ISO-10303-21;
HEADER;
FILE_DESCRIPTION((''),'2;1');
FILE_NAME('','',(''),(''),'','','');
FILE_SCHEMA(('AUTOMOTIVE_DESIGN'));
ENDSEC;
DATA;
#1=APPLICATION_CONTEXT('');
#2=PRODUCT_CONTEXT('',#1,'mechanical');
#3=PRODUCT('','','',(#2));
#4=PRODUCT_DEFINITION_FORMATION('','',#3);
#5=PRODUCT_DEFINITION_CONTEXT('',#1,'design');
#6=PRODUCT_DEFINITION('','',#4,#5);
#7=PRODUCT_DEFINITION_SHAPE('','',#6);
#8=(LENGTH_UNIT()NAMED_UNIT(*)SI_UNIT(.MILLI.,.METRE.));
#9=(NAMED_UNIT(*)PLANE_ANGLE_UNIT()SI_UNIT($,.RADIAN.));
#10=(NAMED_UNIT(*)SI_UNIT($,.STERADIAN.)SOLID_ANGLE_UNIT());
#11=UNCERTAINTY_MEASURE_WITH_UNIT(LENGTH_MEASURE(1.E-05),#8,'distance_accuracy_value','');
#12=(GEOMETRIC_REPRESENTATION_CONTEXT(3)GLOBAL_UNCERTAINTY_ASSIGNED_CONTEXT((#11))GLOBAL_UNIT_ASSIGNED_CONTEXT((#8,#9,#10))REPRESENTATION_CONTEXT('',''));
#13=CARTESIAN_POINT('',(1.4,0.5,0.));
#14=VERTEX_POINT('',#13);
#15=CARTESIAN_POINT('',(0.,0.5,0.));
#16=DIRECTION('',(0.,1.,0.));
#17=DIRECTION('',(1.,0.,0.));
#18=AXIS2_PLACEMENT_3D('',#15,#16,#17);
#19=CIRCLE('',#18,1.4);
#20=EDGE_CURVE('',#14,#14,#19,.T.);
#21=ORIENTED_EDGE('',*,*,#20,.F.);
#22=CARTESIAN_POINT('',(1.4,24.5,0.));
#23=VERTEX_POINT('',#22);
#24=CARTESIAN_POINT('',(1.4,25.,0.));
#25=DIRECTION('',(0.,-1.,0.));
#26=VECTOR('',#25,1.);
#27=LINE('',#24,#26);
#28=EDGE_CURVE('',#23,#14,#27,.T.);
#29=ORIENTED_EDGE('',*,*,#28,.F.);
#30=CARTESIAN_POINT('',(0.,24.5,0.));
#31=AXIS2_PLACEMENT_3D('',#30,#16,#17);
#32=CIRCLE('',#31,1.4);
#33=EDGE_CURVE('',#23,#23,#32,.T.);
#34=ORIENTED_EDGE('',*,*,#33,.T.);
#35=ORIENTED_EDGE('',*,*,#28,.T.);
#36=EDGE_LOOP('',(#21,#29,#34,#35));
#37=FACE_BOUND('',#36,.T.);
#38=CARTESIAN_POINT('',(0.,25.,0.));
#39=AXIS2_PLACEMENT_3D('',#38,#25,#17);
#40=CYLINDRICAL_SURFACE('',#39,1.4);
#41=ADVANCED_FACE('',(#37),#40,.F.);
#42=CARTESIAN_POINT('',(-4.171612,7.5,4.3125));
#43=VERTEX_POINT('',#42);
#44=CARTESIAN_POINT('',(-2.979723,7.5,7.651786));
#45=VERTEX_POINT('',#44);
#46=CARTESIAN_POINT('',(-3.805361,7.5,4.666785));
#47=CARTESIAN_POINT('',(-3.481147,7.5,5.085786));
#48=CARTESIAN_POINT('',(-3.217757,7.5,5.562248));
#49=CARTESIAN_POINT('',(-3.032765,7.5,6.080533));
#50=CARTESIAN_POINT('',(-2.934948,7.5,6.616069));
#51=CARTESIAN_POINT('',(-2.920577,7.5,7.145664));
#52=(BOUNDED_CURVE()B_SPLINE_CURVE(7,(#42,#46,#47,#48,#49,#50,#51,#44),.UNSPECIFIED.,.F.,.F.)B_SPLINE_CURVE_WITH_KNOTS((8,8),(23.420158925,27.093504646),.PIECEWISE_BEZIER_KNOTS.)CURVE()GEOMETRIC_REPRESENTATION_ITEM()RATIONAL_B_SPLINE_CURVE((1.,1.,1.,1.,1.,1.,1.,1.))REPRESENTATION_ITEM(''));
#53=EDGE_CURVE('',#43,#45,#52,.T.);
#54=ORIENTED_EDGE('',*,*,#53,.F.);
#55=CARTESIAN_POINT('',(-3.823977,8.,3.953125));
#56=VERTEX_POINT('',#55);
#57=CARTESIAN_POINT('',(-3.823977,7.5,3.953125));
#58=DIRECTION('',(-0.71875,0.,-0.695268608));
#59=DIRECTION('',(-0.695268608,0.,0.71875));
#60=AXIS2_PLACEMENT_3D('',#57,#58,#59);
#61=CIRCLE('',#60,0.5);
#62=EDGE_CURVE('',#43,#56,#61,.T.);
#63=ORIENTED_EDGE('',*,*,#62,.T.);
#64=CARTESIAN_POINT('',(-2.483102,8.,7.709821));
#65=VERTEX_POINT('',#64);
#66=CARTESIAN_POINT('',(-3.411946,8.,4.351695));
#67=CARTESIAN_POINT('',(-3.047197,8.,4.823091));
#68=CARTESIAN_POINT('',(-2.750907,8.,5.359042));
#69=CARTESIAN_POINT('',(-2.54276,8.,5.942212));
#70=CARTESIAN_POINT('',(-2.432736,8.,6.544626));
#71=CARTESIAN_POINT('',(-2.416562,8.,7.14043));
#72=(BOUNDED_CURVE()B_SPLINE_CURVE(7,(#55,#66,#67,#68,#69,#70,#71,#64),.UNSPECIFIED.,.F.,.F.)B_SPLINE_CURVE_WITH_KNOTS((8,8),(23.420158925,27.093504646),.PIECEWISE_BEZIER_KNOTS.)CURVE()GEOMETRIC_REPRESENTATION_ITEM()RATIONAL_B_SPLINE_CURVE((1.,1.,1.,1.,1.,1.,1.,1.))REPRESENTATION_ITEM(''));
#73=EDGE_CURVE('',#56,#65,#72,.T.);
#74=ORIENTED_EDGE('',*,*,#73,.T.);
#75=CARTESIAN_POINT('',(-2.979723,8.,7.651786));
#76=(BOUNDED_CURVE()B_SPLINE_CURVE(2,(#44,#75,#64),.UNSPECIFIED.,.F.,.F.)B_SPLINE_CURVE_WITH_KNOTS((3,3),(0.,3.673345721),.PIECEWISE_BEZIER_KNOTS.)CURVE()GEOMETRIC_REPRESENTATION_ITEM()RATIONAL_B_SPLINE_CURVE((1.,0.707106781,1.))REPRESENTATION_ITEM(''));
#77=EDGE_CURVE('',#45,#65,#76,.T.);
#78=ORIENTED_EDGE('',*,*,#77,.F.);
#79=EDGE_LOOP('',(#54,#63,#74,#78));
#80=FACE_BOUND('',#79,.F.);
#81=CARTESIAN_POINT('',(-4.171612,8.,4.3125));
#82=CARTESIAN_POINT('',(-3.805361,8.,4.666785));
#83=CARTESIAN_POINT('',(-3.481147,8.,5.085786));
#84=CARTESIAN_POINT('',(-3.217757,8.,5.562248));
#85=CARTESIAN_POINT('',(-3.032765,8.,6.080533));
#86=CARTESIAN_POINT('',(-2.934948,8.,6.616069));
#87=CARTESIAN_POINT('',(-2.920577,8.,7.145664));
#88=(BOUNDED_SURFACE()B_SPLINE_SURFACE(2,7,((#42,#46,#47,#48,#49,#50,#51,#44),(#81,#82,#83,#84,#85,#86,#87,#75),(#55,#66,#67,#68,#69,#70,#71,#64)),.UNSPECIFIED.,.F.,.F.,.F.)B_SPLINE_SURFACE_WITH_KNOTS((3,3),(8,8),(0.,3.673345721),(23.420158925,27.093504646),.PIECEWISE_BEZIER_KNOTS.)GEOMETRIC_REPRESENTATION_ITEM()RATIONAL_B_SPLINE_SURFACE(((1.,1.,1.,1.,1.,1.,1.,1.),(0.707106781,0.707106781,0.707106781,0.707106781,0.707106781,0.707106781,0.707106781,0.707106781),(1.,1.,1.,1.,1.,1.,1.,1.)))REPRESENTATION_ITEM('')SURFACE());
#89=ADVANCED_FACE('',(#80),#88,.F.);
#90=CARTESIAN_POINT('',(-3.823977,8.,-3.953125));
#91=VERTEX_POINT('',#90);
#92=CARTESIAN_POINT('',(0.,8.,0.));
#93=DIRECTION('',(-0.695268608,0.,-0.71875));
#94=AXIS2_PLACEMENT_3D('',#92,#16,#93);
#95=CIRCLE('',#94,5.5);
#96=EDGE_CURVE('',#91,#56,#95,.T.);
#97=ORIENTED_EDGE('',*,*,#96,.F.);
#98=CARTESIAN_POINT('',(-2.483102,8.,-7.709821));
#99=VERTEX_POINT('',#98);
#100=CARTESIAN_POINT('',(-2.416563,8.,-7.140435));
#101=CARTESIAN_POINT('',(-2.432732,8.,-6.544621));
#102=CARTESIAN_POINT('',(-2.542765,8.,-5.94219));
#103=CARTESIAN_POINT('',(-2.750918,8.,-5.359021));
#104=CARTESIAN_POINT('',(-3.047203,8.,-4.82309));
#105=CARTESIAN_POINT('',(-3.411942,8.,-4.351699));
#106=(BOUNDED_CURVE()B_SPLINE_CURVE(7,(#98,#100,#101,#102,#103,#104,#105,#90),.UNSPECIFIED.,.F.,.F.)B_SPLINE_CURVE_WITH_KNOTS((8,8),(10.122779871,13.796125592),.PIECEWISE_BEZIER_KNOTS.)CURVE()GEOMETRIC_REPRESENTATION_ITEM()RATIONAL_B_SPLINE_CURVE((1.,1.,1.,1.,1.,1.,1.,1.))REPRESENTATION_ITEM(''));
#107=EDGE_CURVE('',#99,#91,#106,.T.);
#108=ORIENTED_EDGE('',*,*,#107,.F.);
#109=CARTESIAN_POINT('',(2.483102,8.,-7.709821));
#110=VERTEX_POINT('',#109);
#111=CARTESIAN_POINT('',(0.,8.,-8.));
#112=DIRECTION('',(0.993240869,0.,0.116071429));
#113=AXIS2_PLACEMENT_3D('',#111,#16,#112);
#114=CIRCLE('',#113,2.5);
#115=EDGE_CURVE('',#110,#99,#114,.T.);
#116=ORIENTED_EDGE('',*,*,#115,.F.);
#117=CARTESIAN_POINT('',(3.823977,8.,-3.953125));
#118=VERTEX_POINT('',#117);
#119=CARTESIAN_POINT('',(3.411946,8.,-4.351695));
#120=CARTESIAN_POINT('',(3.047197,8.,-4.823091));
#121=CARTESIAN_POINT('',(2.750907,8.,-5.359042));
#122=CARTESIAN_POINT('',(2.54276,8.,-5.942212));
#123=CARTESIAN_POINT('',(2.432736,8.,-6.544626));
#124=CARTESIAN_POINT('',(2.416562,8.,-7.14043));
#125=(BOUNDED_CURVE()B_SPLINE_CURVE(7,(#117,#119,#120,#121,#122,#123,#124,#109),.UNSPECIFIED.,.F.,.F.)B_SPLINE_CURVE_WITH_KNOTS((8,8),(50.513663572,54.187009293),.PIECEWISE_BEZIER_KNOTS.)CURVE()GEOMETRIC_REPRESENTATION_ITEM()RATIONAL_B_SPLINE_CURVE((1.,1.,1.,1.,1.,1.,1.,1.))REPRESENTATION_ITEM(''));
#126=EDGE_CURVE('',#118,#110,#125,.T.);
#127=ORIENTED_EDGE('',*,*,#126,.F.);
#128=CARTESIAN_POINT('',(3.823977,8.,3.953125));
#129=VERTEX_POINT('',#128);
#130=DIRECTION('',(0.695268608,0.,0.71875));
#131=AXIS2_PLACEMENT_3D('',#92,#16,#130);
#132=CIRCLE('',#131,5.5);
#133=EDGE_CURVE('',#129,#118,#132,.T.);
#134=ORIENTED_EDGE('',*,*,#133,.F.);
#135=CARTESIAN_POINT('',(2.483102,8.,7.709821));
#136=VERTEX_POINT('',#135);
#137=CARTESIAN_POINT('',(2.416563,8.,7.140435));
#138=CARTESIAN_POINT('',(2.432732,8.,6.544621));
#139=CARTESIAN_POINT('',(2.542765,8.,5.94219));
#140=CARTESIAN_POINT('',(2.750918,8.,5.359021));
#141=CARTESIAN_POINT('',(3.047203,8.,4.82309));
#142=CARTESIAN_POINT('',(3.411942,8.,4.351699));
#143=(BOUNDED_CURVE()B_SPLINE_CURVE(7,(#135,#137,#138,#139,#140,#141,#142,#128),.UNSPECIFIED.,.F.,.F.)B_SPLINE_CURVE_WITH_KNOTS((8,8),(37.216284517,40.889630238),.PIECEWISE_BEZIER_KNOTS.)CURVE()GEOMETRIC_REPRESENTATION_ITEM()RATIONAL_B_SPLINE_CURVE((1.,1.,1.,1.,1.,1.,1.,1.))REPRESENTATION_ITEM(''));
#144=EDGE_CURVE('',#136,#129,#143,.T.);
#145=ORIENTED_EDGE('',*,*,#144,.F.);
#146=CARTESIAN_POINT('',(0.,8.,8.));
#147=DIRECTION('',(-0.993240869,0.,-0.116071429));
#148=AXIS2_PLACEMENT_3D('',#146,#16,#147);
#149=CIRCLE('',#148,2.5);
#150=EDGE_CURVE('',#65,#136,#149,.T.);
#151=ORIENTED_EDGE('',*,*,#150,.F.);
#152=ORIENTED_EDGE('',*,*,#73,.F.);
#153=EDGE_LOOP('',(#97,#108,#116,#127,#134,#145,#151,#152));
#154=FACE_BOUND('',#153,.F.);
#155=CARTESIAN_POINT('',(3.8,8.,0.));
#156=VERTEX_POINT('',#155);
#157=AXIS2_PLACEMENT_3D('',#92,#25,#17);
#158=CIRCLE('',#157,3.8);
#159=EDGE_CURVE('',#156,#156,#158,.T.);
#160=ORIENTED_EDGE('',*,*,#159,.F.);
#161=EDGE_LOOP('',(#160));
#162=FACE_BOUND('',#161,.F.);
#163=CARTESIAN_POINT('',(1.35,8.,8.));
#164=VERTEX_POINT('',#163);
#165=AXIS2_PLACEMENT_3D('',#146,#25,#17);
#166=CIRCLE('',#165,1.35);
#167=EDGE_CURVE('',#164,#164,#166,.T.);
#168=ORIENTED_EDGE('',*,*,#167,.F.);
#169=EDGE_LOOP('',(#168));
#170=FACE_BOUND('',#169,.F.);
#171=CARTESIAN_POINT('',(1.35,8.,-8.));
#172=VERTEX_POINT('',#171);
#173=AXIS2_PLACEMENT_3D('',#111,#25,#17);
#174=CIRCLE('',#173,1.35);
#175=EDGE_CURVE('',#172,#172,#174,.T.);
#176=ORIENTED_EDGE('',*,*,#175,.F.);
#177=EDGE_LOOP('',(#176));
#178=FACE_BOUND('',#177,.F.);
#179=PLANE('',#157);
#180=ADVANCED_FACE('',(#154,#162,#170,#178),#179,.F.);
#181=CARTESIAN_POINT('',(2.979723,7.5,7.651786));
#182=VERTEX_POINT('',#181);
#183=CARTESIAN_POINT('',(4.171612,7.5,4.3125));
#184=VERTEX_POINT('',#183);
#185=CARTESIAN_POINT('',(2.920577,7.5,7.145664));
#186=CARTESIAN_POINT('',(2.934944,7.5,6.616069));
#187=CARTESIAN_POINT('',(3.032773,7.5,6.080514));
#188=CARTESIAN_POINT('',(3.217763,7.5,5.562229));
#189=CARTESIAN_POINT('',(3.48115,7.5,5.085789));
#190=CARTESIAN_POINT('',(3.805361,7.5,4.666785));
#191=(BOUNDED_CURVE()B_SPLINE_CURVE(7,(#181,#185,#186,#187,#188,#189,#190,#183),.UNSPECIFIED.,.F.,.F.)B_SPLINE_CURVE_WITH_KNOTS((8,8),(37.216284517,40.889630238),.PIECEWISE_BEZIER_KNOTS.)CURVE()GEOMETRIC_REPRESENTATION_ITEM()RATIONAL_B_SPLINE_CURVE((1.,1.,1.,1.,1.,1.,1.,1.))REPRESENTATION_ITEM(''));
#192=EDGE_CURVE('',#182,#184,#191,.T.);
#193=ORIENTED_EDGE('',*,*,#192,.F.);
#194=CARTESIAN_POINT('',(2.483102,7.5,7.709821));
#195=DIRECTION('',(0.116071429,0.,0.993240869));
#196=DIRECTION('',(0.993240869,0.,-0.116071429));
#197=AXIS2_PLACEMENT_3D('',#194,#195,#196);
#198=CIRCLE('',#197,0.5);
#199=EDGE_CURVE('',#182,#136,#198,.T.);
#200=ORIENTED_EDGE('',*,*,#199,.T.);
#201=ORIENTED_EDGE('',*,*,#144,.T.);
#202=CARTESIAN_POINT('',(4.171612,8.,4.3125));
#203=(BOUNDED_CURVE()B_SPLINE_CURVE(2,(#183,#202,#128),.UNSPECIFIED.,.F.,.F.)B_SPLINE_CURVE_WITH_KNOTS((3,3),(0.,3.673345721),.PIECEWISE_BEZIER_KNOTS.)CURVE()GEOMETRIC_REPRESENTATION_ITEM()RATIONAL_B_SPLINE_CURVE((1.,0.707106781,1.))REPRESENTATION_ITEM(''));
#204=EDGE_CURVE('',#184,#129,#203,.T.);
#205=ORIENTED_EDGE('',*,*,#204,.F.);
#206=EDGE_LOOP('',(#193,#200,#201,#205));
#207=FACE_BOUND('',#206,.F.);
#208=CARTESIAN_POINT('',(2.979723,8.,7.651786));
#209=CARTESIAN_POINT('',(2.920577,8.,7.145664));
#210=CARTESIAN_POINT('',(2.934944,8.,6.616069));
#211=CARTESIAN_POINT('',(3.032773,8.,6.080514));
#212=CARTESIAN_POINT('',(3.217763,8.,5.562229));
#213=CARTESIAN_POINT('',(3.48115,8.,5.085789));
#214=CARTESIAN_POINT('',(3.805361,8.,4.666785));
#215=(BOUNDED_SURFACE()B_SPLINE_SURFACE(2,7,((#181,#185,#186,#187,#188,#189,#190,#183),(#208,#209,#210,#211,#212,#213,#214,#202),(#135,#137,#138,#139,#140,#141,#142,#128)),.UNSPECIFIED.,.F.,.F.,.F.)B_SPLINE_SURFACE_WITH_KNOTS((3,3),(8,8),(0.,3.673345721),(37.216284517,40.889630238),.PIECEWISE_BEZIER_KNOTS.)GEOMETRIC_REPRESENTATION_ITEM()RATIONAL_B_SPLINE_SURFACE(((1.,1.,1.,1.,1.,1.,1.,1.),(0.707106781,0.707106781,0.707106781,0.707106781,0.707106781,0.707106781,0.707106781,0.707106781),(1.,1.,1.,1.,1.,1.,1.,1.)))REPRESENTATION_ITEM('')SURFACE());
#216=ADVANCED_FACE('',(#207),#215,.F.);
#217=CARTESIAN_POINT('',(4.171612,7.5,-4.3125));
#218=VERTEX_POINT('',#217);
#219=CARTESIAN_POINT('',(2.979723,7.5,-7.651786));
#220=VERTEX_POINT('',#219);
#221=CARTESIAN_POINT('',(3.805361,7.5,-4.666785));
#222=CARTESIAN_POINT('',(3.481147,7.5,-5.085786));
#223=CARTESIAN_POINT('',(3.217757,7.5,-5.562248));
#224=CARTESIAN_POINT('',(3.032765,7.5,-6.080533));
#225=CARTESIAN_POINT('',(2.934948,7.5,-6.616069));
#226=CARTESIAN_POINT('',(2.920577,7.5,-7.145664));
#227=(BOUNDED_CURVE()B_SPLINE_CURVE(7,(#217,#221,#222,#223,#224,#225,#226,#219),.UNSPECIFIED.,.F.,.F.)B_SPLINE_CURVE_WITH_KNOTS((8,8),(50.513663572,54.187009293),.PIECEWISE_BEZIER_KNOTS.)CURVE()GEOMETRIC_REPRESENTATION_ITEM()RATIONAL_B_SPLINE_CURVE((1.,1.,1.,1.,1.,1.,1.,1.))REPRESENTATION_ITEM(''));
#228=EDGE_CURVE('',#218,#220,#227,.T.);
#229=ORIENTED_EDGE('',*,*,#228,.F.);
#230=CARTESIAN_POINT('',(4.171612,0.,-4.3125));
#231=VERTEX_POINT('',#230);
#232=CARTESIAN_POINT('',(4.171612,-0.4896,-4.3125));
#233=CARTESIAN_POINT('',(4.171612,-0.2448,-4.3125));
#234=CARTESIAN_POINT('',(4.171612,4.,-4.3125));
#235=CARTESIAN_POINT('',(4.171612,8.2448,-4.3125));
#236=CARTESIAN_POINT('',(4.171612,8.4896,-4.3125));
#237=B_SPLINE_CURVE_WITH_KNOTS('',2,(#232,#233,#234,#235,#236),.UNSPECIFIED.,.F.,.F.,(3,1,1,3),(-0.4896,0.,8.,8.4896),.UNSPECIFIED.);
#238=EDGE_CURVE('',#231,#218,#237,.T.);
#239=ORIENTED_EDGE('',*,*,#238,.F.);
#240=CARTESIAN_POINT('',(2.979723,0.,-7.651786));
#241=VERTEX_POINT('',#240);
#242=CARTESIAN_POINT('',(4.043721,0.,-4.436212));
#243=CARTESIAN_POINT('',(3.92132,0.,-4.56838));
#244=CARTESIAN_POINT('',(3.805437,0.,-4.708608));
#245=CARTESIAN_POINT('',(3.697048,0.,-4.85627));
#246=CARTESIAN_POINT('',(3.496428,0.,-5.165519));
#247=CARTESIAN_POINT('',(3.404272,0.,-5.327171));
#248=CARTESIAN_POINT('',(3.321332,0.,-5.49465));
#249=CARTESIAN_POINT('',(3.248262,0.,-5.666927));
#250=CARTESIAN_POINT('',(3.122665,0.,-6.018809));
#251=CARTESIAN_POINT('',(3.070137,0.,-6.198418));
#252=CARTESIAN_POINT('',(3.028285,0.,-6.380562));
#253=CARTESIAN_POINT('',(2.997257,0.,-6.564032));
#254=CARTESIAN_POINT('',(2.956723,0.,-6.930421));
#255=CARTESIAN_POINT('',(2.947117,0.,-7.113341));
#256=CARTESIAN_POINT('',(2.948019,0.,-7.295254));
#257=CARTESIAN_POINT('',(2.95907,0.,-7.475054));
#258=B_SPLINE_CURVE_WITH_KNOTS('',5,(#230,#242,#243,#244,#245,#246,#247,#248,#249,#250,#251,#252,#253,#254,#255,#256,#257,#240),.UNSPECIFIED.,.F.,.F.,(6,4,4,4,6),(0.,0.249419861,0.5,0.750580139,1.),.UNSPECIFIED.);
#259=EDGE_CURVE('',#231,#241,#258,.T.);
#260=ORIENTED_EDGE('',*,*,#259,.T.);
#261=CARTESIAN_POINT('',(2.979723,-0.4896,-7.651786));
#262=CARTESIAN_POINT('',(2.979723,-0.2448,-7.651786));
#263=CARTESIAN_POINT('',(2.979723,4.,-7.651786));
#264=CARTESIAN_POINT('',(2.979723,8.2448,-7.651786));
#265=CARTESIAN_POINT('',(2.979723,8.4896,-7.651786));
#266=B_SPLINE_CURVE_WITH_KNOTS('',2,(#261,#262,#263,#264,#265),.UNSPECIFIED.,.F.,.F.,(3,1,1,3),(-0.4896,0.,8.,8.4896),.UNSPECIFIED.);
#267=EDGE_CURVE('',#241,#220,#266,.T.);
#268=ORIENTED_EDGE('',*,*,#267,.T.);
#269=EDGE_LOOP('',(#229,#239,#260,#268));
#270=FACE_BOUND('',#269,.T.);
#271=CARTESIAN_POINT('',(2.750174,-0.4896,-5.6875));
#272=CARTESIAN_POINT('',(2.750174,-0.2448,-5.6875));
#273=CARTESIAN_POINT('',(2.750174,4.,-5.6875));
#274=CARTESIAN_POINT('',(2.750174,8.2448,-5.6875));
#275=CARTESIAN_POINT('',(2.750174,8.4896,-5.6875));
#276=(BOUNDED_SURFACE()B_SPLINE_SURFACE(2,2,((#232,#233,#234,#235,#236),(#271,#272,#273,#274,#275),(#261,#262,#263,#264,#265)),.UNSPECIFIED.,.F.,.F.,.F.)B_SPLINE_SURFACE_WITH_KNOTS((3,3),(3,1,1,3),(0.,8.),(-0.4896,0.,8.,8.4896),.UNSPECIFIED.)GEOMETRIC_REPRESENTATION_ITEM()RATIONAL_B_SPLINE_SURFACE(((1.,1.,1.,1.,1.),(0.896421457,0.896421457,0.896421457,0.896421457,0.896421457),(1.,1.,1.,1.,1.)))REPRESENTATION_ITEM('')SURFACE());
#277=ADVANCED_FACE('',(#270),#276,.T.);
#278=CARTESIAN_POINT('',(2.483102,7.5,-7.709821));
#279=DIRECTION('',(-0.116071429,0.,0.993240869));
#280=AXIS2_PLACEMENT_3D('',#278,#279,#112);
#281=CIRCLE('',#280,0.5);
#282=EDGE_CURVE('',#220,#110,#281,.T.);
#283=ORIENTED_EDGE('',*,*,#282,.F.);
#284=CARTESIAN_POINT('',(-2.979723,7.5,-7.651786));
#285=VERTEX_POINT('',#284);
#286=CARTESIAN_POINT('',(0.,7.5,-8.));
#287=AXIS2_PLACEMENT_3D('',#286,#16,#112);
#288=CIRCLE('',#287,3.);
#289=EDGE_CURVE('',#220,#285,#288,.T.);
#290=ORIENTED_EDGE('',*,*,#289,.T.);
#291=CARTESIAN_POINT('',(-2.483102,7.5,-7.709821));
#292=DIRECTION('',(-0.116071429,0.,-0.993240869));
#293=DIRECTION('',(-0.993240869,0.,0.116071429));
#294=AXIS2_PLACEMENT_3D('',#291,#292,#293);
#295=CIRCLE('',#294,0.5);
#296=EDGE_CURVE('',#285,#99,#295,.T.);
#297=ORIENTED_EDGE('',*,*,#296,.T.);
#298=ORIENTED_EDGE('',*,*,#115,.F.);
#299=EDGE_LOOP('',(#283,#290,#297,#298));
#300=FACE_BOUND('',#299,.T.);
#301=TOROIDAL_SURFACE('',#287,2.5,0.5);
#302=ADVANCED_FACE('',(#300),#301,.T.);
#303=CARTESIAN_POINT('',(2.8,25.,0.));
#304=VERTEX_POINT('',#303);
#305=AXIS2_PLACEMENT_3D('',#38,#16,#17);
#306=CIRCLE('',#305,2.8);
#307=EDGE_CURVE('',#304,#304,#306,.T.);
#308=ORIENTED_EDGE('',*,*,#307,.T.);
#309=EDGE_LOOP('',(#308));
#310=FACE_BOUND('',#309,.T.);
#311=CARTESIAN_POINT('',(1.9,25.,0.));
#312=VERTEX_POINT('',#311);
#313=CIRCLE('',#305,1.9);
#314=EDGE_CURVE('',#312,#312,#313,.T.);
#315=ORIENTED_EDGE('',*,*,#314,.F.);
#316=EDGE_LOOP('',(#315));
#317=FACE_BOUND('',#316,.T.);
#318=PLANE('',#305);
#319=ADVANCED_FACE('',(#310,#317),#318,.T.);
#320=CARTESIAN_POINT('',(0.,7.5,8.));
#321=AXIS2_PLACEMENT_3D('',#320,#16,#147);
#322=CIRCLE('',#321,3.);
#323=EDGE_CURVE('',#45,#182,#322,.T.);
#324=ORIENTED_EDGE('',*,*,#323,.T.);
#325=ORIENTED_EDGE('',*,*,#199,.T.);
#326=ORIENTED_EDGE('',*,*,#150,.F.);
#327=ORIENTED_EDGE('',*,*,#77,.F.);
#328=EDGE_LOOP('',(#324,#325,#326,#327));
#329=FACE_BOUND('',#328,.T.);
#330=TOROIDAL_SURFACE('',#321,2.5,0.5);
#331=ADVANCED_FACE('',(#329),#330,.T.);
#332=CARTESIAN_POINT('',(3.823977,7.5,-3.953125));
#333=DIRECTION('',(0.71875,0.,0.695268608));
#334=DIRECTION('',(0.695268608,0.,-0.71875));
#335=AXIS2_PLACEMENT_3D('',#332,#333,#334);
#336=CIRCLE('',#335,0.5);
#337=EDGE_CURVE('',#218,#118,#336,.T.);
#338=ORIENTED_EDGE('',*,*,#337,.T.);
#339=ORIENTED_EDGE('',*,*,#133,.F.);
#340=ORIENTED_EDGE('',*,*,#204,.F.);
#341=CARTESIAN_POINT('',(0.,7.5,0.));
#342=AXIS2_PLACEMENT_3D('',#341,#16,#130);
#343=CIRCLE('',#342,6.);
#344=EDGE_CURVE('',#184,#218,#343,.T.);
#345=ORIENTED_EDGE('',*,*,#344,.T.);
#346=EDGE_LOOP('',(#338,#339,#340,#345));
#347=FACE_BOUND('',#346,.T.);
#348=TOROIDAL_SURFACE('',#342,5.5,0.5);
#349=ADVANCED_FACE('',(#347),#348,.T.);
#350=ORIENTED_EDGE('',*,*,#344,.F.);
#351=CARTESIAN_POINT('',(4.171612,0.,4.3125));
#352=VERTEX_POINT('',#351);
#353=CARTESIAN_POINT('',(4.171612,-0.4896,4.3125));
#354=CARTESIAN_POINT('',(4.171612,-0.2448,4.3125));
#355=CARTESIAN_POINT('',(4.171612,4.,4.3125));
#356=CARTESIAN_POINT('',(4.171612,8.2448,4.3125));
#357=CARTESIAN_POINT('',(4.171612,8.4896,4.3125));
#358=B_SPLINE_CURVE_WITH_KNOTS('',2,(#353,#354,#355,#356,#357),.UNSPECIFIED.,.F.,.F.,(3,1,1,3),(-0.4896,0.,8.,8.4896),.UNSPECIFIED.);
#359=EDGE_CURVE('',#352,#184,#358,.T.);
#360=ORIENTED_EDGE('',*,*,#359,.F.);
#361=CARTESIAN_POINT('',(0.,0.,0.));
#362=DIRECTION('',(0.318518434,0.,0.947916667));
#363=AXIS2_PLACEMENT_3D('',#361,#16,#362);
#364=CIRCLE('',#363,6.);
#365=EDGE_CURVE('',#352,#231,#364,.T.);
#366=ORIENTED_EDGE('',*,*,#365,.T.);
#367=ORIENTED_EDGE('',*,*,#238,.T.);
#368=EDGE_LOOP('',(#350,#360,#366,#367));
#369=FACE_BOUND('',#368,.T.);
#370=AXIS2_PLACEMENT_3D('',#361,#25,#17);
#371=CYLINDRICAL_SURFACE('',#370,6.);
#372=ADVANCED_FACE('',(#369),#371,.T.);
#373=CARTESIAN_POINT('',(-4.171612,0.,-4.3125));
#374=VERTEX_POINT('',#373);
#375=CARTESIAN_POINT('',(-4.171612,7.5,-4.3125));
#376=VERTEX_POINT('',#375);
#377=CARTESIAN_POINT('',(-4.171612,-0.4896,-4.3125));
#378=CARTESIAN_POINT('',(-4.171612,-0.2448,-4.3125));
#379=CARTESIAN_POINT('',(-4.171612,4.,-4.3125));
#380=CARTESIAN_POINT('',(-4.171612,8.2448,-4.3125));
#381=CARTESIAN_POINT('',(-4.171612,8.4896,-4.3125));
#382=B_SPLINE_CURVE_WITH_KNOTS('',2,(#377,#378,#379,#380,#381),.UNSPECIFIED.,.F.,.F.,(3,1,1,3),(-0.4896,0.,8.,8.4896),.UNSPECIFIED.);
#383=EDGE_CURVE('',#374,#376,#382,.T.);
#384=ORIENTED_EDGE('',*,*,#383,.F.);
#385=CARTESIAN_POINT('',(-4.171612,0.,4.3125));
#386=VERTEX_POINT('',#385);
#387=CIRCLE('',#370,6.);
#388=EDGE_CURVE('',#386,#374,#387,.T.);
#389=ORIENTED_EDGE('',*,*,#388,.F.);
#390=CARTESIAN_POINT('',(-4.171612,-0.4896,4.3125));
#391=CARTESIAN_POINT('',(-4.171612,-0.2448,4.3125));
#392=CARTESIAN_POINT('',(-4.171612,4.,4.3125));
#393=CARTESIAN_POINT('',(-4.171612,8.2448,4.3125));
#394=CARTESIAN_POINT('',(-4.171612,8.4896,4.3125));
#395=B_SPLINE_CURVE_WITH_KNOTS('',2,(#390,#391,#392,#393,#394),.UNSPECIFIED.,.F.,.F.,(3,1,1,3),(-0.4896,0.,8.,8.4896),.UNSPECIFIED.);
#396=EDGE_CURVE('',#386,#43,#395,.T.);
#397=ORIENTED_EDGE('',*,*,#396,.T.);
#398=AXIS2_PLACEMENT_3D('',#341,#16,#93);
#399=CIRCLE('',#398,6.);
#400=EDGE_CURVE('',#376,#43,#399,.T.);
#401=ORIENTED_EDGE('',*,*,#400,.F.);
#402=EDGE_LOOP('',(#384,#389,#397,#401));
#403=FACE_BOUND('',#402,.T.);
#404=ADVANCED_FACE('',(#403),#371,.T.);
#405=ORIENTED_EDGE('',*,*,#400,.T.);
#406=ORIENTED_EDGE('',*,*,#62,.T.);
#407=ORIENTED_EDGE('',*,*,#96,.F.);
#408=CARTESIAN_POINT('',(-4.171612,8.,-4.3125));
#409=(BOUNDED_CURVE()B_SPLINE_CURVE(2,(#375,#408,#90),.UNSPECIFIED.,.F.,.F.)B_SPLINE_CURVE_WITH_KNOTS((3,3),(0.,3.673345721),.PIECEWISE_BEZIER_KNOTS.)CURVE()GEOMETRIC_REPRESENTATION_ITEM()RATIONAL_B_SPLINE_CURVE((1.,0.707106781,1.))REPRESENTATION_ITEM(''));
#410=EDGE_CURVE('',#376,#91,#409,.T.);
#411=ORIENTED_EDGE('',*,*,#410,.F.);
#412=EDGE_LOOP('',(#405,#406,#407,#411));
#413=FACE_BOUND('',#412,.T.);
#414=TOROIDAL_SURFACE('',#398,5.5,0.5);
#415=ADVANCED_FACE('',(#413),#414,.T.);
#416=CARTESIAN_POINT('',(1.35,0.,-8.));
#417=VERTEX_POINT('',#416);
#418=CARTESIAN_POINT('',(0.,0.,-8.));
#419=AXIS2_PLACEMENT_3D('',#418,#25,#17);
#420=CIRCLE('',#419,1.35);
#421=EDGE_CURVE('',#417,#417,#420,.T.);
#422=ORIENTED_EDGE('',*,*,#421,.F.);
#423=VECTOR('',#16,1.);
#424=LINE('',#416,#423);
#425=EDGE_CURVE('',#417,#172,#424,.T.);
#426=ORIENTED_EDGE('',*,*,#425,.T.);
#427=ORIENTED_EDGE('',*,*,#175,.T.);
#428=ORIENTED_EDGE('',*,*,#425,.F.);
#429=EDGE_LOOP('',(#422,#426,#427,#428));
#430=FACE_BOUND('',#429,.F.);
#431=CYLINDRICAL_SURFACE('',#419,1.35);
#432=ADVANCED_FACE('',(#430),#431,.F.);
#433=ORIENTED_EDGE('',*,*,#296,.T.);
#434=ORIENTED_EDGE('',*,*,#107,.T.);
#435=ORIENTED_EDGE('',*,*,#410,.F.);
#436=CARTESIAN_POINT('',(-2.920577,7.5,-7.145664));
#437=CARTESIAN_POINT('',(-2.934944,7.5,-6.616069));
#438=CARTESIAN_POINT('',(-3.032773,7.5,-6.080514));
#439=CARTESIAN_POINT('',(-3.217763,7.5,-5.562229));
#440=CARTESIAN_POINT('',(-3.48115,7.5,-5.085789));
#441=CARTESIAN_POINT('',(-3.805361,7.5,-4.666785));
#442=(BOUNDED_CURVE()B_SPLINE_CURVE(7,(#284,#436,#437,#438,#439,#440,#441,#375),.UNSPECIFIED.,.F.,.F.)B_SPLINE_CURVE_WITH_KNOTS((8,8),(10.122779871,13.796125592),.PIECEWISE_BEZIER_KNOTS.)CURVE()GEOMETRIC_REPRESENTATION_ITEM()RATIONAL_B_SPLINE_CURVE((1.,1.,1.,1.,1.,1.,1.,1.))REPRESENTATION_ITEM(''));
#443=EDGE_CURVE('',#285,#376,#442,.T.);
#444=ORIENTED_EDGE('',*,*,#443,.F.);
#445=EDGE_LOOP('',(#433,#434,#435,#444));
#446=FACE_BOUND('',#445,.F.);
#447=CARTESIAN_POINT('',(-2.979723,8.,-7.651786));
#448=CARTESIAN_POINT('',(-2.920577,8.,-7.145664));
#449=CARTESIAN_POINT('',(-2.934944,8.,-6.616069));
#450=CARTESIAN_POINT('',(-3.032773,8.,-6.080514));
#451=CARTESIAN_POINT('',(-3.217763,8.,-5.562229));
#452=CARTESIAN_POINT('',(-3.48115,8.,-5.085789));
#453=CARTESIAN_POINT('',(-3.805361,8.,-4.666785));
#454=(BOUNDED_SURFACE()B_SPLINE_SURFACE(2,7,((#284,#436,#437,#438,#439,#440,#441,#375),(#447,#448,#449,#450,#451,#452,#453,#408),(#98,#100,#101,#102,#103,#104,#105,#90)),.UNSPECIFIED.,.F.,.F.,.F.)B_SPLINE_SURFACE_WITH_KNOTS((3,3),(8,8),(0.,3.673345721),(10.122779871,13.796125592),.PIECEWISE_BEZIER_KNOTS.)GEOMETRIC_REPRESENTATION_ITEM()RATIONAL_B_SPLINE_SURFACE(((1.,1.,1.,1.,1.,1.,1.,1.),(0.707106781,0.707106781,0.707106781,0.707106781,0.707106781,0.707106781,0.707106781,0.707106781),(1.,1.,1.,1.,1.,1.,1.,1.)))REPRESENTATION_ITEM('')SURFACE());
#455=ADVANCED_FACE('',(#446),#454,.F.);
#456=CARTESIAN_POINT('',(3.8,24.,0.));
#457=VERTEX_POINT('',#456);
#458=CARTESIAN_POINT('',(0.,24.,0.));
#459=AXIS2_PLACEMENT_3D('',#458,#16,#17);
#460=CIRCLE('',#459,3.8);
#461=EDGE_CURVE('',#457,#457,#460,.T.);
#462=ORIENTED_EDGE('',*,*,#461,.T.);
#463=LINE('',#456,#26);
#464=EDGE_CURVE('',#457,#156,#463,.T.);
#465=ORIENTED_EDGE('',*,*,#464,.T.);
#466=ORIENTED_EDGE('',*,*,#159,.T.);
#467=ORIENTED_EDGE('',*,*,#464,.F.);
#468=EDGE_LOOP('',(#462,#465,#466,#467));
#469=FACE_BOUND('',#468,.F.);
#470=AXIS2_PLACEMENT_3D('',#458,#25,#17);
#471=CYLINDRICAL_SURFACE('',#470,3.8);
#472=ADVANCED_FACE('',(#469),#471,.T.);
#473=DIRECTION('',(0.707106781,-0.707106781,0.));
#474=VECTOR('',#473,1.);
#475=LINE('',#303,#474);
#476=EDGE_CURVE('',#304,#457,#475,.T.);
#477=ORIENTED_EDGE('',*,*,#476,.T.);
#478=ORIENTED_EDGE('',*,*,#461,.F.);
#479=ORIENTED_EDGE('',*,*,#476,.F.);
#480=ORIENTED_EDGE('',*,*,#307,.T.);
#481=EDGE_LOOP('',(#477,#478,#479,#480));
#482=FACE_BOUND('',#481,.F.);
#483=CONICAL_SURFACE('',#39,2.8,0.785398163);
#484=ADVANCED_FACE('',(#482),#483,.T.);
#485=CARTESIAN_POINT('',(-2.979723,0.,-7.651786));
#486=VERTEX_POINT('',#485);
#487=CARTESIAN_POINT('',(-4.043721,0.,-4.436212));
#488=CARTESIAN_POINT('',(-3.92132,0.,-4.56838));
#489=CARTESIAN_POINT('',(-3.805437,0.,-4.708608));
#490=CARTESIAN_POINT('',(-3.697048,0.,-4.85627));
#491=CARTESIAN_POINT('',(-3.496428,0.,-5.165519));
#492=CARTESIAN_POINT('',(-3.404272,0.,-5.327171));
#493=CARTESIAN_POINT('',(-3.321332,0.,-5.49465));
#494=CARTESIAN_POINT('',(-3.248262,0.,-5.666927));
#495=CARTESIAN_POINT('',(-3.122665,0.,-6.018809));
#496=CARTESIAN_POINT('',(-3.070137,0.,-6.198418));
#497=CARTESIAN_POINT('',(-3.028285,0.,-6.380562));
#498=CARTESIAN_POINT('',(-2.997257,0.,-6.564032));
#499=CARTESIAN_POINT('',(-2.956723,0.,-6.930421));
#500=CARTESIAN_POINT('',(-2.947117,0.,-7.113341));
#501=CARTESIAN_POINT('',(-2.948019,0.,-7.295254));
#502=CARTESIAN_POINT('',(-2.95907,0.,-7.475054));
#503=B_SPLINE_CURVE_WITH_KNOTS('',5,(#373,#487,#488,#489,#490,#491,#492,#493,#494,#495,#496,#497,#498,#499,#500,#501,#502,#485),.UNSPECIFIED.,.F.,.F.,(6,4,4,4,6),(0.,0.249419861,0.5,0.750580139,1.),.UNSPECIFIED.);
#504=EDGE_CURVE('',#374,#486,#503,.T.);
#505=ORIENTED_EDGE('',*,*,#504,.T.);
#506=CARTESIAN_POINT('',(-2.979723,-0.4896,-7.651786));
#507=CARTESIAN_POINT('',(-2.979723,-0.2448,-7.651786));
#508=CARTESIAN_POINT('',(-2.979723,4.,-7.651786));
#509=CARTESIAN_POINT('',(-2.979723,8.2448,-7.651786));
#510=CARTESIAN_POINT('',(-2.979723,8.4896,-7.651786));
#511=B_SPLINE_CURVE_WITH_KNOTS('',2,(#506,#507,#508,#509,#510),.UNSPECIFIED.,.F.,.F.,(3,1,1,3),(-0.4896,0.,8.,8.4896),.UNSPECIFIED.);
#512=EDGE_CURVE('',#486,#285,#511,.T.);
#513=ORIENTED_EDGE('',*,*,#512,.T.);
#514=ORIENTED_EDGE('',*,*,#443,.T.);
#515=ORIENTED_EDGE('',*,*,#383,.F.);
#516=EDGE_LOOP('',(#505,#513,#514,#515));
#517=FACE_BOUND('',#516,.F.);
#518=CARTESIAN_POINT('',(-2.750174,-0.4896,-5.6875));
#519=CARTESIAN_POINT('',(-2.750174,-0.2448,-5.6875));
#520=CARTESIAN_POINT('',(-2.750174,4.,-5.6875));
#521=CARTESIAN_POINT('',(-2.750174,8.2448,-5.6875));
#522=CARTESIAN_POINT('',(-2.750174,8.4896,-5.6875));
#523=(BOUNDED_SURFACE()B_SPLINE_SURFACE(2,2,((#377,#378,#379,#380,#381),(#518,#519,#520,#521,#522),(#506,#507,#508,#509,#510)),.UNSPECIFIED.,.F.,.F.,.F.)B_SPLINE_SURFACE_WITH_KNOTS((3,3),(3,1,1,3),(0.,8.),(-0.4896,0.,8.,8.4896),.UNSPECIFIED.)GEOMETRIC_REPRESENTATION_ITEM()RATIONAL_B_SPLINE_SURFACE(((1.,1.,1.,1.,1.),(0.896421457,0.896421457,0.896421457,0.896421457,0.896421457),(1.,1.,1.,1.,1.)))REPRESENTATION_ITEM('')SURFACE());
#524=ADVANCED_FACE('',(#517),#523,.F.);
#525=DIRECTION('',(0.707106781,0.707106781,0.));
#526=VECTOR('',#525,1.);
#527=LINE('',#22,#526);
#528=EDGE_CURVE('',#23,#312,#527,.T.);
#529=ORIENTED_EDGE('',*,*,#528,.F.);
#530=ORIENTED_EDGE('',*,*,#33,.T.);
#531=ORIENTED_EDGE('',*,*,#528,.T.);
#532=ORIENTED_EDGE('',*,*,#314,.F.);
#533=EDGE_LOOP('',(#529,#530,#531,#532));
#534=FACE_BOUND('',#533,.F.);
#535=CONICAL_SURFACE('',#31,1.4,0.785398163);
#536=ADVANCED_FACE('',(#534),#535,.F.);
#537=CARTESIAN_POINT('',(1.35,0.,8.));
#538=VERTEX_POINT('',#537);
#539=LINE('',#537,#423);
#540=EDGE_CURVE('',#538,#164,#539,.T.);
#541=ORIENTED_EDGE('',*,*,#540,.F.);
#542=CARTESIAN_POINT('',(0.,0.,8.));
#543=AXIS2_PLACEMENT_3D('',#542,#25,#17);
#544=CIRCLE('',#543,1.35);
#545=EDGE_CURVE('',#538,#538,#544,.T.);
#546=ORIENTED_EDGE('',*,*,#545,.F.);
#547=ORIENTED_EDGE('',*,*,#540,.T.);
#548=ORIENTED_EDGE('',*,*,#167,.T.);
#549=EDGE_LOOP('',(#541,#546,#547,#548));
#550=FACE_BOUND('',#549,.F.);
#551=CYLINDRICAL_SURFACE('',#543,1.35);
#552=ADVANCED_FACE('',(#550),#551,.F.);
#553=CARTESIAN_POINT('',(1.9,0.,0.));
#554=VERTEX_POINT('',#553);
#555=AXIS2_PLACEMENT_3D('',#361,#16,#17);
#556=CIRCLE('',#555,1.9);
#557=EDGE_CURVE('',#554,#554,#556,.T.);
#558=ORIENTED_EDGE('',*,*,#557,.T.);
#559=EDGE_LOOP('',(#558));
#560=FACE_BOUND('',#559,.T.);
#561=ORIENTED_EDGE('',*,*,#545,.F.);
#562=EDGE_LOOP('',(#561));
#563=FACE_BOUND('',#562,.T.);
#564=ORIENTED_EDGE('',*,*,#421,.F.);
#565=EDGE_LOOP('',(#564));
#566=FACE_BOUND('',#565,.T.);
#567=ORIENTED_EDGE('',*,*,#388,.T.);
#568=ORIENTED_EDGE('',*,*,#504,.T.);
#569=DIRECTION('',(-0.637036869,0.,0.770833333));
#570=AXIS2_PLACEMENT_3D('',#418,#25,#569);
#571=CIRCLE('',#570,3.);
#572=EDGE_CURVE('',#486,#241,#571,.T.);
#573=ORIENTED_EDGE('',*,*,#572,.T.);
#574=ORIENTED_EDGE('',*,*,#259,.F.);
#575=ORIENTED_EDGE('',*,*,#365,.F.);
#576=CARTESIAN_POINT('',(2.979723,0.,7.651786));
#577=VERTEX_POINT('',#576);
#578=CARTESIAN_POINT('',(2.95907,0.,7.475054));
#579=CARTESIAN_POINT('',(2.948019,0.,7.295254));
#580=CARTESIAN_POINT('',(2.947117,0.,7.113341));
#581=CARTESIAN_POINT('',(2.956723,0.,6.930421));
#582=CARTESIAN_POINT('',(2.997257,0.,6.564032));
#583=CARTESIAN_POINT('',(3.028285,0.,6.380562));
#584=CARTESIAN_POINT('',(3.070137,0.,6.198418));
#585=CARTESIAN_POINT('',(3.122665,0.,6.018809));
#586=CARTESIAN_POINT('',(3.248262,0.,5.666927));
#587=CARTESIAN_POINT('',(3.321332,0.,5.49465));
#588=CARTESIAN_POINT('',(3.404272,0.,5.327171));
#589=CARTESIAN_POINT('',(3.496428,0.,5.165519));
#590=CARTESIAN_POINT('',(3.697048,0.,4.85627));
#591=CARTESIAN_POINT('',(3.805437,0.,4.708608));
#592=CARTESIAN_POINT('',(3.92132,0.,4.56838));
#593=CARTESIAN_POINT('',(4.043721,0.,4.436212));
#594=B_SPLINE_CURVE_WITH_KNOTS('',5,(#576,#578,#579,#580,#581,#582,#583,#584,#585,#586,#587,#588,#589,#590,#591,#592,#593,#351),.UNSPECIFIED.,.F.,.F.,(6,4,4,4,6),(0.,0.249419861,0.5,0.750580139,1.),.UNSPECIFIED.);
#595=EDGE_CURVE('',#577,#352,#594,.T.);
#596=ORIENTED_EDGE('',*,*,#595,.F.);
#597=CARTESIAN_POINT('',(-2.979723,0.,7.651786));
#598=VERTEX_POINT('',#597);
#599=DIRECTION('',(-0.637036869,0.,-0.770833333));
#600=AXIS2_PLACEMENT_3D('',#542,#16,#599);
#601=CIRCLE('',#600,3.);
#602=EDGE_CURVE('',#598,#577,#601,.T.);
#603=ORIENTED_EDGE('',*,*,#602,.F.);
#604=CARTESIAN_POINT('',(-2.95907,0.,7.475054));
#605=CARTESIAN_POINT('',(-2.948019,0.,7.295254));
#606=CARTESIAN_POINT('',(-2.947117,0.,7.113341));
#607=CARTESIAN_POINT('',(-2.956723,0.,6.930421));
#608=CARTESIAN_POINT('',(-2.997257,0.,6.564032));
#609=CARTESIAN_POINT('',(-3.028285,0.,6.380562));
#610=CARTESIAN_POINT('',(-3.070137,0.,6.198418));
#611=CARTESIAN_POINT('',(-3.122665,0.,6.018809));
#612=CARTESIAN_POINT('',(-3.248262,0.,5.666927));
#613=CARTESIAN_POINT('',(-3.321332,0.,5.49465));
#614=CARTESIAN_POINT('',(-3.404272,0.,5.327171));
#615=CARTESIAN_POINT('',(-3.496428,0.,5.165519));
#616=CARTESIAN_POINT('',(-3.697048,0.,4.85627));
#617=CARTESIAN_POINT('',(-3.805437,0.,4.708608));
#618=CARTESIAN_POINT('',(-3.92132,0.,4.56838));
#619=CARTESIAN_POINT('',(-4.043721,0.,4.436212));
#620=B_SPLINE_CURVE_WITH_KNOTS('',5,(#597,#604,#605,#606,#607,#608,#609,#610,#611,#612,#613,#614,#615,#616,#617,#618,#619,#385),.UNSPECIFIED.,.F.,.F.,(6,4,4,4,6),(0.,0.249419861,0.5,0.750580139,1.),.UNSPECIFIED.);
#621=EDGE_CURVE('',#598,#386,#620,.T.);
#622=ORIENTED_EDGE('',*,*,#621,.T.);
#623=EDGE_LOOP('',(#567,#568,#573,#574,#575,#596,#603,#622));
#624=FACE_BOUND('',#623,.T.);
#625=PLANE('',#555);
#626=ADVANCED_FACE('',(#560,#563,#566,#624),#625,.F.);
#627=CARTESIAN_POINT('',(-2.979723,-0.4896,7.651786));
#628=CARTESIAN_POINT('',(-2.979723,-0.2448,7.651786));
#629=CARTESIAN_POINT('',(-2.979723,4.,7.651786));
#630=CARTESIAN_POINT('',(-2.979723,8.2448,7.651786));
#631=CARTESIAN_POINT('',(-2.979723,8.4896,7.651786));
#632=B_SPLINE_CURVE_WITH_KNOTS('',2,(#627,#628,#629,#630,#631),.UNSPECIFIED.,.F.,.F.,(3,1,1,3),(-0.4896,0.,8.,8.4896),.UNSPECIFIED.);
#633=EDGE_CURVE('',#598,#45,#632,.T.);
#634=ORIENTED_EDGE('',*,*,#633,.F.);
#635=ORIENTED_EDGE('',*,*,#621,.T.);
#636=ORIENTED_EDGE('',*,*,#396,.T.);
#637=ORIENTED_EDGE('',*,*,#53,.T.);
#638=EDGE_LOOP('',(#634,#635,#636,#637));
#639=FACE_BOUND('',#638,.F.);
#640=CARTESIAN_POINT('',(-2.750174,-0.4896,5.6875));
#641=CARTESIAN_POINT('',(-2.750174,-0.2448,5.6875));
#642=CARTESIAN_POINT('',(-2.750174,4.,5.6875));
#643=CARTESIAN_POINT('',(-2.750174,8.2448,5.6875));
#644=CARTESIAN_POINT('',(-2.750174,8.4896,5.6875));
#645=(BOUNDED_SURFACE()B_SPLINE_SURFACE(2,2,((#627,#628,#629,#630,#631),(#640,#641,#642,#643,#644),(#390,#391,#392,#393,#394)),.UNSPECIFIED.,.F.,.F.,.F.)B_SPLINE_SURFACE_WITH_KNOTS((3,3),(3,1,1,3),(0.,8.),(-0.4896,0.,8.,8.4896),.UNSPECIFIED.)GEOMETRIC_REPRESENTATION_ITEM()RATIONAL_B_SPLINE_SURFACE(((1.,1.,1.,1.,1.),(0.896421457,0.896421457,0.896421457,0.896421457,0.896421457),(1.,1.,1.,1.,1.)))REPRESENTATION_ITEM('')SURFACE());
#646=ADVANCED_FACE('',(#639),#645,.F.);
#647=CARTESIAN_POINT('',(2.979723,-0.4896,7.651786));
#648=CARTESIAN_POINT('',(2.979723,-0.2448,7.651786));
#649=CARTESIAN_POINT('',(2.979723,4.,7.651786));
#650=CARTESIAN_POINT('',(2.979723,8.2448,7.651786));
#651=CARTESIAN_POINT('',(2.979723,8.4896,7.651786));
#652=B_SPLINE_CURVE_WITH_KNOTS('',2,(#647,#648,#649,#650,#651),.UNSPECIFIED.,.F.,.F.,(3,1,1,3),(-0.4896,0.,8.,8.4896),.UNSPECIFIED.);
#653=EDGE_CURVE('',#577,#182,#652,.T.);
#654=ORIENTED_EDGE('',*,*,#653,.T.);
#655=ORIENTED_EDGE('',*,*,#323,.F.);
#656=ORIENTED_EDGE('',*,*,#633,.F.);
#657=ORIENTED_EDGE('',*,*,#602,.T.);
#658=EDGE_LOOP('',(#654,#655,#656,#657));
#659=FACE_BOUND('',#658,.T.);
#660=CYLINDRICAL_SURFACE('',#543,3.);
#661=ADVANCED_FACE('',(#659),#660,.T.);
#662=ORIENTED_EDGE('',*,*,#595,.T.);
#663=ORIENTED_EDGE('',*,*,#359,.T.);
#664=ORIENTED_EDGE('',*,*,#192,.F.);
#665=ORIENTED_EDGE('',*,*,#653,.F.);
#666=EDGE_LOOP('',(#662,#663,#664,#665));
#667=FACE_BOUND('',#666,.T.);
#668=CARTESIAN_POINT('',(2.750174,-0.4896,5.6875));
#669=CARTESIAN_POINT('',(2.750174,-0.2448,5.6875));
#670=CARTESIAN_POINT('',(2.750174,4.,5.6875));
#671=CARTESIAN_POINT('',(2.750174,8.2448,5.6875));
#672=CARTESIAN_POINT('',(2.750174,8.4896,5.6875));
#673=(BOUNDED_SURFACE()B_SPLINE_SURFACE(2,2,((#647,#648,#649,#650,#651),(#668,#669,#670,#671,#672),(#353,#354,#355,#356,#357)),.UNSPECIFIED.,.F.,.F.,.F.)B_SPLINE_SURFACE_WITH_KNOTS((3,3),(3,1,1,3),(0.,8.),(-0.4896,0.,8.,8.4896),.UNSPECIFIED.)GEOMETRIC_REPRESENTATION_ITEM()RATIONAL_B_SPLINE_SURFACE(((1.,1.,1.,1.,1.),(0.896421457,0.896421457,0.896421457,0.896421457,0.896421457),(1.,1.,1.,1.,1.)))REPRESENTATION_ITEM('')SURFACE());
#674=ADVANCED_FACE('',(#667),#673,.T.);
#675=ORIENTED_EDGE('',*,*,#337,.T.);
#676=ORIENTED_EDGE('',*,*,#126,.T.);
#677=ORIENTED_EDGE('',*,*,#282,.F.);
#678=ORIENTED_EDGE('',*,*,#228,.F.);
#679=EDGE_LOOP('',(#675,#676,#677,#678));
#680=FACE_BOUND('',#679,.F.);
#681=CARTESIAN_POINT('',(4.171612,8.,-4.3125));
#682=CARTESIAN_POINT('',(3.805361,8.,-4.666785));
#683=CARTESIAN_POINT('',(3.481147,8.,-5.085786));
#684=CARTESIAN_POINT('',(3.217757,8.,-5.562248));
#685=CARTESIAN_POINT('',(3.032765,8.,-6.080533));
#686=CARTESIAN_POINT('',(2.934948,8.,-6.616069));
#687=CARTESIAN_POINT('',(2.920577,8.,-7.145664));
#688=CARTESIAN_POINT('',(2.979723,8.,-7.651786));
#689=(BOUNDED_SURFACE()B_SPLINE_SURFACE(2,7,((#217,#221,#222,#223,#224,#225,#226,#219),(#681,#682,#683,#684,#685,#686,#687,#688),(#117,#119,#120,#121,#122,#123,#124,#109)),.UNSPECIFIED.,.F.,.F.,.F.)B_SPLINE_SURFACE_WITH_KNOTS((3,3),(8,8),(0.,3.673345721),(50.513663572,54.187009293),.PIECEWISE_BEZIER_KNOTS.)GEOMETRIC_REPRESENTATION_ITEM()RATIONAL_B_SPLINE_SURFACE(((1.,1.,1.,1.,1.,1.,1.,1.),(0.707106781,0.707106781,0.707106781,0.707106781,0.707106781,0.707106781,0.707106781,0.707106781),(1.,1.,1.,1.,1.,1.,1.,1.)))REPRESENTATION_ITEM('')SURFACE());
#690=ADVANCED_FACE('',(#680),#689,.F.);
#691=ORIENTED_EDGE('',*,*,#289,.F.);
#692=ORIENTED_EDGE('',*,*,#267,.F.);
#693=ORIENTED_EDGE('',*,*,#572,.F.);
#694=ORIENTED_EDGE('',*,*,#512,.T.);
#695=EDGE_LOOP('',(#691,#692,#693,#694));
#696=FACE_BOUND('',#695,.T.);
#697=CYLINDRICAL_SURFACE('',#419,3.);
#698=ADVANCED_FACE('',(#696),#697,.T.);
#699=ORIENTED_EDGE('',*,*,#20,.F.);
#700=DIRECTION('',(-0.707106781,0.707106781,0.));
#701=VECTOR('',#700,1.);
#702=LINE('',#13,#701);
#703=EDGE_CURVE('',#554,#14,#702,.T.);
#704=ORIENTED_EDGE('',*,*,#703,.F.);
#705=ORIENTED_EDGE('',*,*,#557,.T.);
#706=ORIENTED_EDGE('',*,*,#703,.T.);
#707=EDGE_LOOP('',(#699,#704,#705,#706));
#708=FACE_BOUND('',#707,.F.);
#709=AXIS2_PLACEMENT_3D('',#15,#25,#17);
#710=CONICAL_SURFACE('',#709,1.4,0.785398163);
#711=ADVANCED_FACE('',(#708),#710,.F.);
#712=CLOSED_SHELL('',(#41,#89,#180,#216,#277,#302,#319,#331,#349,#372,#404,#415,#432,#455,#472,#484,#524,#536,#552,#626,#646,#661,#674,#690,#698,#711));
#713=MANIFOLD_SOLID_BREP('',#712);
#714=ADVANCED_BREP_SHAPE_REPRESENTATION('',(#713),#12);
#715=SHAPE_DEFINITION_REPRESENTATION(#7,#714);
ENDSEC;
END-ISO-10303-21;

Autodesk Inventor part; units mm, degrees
ref_plane "YZ Plane" through (0, 0, 0) normal (1, 0, 0) x (0, 1, 0)
ref_plane "XZ Plane" through (0, 0, 0) normal (0, 1, 0) x (-1, 0, 0)
ref_plane "XY Plane" through (0, 0, 0) normal (0, 0, 1) x (1, 0, 0)
sketch "Sketch1" plane through (0, 0, 0) normal (0, 0, 1) x (1, 0, 0)
  line L0 (0, 0) -> (0, 38.4841) construction
  line L1 (2.8, 25) -> (3.8, 24)
  line L2 (3.8, 24) -> (3.8, 0)
  line L3 (2.8, 25) -> (1.4, 25)
  line L4 (1.4, 25) -> (1.4, 0)
  line L5 (1.4, 0) -> (3.8, 0)
  dimension "d1" = 1.4
  dimension "d8" = 1
  dimension "d20" = 3.8
revolve "Revolution1" add sketch "Sketch1" angle 360 about axis through (0, 0, 0) along (0, 1, 0)
chamfer "Chamfer1" distance 0.5 angle 45 2 edges at (-1.4, 25, 0) (-1.4, 0, 0)
sketch "Sketch6" plane through (0, 0, 0) normal (0, -1, 0) x (1, 0, 0)
  line L0 (0, 0) -> (0, -8) construction
  circle A0 centre (0, 8) radius 3
  circle A1 centre (0, -8) radius 3
  circle A2 centre (0, 0) radius 6
  line L1 (0, 0) -> (0, 8) construction
  circle A3 centre (0, 8) radius 1.35
  circle A4 centre (0, -8) radius 1.35
  circle A5 centre (0, 0) radius 1.9 projected
  point P0 (1.9111, -5.6875)
  point P1 (1.9111, 5.6875)
  point P2 (-1.9111, 5.6875)
  point P3 (-1.9111, -5.6875)
  dimension "d24" = 6
  dimension "d26" = 8
  dimension "d27" = 12
  dimension "d28" = 2.7
extrude "Extrusion3" add sketch "Sketch6" against normal blind 8
fillet "Fillet1" radius 4 4 edges at (1.9111, 4, 5.6875) (-1.9111, 4, 5.6875) (1.9111, 4, -5.6875) (-1.9111, 4, -5.6875)
fillet "Fillet2" radius 0.5 4 edges at (0, 8, -11) (6, 8, 0) (-6, 8, 0) (0, 8, 11)
properties part number "caster-bng"
